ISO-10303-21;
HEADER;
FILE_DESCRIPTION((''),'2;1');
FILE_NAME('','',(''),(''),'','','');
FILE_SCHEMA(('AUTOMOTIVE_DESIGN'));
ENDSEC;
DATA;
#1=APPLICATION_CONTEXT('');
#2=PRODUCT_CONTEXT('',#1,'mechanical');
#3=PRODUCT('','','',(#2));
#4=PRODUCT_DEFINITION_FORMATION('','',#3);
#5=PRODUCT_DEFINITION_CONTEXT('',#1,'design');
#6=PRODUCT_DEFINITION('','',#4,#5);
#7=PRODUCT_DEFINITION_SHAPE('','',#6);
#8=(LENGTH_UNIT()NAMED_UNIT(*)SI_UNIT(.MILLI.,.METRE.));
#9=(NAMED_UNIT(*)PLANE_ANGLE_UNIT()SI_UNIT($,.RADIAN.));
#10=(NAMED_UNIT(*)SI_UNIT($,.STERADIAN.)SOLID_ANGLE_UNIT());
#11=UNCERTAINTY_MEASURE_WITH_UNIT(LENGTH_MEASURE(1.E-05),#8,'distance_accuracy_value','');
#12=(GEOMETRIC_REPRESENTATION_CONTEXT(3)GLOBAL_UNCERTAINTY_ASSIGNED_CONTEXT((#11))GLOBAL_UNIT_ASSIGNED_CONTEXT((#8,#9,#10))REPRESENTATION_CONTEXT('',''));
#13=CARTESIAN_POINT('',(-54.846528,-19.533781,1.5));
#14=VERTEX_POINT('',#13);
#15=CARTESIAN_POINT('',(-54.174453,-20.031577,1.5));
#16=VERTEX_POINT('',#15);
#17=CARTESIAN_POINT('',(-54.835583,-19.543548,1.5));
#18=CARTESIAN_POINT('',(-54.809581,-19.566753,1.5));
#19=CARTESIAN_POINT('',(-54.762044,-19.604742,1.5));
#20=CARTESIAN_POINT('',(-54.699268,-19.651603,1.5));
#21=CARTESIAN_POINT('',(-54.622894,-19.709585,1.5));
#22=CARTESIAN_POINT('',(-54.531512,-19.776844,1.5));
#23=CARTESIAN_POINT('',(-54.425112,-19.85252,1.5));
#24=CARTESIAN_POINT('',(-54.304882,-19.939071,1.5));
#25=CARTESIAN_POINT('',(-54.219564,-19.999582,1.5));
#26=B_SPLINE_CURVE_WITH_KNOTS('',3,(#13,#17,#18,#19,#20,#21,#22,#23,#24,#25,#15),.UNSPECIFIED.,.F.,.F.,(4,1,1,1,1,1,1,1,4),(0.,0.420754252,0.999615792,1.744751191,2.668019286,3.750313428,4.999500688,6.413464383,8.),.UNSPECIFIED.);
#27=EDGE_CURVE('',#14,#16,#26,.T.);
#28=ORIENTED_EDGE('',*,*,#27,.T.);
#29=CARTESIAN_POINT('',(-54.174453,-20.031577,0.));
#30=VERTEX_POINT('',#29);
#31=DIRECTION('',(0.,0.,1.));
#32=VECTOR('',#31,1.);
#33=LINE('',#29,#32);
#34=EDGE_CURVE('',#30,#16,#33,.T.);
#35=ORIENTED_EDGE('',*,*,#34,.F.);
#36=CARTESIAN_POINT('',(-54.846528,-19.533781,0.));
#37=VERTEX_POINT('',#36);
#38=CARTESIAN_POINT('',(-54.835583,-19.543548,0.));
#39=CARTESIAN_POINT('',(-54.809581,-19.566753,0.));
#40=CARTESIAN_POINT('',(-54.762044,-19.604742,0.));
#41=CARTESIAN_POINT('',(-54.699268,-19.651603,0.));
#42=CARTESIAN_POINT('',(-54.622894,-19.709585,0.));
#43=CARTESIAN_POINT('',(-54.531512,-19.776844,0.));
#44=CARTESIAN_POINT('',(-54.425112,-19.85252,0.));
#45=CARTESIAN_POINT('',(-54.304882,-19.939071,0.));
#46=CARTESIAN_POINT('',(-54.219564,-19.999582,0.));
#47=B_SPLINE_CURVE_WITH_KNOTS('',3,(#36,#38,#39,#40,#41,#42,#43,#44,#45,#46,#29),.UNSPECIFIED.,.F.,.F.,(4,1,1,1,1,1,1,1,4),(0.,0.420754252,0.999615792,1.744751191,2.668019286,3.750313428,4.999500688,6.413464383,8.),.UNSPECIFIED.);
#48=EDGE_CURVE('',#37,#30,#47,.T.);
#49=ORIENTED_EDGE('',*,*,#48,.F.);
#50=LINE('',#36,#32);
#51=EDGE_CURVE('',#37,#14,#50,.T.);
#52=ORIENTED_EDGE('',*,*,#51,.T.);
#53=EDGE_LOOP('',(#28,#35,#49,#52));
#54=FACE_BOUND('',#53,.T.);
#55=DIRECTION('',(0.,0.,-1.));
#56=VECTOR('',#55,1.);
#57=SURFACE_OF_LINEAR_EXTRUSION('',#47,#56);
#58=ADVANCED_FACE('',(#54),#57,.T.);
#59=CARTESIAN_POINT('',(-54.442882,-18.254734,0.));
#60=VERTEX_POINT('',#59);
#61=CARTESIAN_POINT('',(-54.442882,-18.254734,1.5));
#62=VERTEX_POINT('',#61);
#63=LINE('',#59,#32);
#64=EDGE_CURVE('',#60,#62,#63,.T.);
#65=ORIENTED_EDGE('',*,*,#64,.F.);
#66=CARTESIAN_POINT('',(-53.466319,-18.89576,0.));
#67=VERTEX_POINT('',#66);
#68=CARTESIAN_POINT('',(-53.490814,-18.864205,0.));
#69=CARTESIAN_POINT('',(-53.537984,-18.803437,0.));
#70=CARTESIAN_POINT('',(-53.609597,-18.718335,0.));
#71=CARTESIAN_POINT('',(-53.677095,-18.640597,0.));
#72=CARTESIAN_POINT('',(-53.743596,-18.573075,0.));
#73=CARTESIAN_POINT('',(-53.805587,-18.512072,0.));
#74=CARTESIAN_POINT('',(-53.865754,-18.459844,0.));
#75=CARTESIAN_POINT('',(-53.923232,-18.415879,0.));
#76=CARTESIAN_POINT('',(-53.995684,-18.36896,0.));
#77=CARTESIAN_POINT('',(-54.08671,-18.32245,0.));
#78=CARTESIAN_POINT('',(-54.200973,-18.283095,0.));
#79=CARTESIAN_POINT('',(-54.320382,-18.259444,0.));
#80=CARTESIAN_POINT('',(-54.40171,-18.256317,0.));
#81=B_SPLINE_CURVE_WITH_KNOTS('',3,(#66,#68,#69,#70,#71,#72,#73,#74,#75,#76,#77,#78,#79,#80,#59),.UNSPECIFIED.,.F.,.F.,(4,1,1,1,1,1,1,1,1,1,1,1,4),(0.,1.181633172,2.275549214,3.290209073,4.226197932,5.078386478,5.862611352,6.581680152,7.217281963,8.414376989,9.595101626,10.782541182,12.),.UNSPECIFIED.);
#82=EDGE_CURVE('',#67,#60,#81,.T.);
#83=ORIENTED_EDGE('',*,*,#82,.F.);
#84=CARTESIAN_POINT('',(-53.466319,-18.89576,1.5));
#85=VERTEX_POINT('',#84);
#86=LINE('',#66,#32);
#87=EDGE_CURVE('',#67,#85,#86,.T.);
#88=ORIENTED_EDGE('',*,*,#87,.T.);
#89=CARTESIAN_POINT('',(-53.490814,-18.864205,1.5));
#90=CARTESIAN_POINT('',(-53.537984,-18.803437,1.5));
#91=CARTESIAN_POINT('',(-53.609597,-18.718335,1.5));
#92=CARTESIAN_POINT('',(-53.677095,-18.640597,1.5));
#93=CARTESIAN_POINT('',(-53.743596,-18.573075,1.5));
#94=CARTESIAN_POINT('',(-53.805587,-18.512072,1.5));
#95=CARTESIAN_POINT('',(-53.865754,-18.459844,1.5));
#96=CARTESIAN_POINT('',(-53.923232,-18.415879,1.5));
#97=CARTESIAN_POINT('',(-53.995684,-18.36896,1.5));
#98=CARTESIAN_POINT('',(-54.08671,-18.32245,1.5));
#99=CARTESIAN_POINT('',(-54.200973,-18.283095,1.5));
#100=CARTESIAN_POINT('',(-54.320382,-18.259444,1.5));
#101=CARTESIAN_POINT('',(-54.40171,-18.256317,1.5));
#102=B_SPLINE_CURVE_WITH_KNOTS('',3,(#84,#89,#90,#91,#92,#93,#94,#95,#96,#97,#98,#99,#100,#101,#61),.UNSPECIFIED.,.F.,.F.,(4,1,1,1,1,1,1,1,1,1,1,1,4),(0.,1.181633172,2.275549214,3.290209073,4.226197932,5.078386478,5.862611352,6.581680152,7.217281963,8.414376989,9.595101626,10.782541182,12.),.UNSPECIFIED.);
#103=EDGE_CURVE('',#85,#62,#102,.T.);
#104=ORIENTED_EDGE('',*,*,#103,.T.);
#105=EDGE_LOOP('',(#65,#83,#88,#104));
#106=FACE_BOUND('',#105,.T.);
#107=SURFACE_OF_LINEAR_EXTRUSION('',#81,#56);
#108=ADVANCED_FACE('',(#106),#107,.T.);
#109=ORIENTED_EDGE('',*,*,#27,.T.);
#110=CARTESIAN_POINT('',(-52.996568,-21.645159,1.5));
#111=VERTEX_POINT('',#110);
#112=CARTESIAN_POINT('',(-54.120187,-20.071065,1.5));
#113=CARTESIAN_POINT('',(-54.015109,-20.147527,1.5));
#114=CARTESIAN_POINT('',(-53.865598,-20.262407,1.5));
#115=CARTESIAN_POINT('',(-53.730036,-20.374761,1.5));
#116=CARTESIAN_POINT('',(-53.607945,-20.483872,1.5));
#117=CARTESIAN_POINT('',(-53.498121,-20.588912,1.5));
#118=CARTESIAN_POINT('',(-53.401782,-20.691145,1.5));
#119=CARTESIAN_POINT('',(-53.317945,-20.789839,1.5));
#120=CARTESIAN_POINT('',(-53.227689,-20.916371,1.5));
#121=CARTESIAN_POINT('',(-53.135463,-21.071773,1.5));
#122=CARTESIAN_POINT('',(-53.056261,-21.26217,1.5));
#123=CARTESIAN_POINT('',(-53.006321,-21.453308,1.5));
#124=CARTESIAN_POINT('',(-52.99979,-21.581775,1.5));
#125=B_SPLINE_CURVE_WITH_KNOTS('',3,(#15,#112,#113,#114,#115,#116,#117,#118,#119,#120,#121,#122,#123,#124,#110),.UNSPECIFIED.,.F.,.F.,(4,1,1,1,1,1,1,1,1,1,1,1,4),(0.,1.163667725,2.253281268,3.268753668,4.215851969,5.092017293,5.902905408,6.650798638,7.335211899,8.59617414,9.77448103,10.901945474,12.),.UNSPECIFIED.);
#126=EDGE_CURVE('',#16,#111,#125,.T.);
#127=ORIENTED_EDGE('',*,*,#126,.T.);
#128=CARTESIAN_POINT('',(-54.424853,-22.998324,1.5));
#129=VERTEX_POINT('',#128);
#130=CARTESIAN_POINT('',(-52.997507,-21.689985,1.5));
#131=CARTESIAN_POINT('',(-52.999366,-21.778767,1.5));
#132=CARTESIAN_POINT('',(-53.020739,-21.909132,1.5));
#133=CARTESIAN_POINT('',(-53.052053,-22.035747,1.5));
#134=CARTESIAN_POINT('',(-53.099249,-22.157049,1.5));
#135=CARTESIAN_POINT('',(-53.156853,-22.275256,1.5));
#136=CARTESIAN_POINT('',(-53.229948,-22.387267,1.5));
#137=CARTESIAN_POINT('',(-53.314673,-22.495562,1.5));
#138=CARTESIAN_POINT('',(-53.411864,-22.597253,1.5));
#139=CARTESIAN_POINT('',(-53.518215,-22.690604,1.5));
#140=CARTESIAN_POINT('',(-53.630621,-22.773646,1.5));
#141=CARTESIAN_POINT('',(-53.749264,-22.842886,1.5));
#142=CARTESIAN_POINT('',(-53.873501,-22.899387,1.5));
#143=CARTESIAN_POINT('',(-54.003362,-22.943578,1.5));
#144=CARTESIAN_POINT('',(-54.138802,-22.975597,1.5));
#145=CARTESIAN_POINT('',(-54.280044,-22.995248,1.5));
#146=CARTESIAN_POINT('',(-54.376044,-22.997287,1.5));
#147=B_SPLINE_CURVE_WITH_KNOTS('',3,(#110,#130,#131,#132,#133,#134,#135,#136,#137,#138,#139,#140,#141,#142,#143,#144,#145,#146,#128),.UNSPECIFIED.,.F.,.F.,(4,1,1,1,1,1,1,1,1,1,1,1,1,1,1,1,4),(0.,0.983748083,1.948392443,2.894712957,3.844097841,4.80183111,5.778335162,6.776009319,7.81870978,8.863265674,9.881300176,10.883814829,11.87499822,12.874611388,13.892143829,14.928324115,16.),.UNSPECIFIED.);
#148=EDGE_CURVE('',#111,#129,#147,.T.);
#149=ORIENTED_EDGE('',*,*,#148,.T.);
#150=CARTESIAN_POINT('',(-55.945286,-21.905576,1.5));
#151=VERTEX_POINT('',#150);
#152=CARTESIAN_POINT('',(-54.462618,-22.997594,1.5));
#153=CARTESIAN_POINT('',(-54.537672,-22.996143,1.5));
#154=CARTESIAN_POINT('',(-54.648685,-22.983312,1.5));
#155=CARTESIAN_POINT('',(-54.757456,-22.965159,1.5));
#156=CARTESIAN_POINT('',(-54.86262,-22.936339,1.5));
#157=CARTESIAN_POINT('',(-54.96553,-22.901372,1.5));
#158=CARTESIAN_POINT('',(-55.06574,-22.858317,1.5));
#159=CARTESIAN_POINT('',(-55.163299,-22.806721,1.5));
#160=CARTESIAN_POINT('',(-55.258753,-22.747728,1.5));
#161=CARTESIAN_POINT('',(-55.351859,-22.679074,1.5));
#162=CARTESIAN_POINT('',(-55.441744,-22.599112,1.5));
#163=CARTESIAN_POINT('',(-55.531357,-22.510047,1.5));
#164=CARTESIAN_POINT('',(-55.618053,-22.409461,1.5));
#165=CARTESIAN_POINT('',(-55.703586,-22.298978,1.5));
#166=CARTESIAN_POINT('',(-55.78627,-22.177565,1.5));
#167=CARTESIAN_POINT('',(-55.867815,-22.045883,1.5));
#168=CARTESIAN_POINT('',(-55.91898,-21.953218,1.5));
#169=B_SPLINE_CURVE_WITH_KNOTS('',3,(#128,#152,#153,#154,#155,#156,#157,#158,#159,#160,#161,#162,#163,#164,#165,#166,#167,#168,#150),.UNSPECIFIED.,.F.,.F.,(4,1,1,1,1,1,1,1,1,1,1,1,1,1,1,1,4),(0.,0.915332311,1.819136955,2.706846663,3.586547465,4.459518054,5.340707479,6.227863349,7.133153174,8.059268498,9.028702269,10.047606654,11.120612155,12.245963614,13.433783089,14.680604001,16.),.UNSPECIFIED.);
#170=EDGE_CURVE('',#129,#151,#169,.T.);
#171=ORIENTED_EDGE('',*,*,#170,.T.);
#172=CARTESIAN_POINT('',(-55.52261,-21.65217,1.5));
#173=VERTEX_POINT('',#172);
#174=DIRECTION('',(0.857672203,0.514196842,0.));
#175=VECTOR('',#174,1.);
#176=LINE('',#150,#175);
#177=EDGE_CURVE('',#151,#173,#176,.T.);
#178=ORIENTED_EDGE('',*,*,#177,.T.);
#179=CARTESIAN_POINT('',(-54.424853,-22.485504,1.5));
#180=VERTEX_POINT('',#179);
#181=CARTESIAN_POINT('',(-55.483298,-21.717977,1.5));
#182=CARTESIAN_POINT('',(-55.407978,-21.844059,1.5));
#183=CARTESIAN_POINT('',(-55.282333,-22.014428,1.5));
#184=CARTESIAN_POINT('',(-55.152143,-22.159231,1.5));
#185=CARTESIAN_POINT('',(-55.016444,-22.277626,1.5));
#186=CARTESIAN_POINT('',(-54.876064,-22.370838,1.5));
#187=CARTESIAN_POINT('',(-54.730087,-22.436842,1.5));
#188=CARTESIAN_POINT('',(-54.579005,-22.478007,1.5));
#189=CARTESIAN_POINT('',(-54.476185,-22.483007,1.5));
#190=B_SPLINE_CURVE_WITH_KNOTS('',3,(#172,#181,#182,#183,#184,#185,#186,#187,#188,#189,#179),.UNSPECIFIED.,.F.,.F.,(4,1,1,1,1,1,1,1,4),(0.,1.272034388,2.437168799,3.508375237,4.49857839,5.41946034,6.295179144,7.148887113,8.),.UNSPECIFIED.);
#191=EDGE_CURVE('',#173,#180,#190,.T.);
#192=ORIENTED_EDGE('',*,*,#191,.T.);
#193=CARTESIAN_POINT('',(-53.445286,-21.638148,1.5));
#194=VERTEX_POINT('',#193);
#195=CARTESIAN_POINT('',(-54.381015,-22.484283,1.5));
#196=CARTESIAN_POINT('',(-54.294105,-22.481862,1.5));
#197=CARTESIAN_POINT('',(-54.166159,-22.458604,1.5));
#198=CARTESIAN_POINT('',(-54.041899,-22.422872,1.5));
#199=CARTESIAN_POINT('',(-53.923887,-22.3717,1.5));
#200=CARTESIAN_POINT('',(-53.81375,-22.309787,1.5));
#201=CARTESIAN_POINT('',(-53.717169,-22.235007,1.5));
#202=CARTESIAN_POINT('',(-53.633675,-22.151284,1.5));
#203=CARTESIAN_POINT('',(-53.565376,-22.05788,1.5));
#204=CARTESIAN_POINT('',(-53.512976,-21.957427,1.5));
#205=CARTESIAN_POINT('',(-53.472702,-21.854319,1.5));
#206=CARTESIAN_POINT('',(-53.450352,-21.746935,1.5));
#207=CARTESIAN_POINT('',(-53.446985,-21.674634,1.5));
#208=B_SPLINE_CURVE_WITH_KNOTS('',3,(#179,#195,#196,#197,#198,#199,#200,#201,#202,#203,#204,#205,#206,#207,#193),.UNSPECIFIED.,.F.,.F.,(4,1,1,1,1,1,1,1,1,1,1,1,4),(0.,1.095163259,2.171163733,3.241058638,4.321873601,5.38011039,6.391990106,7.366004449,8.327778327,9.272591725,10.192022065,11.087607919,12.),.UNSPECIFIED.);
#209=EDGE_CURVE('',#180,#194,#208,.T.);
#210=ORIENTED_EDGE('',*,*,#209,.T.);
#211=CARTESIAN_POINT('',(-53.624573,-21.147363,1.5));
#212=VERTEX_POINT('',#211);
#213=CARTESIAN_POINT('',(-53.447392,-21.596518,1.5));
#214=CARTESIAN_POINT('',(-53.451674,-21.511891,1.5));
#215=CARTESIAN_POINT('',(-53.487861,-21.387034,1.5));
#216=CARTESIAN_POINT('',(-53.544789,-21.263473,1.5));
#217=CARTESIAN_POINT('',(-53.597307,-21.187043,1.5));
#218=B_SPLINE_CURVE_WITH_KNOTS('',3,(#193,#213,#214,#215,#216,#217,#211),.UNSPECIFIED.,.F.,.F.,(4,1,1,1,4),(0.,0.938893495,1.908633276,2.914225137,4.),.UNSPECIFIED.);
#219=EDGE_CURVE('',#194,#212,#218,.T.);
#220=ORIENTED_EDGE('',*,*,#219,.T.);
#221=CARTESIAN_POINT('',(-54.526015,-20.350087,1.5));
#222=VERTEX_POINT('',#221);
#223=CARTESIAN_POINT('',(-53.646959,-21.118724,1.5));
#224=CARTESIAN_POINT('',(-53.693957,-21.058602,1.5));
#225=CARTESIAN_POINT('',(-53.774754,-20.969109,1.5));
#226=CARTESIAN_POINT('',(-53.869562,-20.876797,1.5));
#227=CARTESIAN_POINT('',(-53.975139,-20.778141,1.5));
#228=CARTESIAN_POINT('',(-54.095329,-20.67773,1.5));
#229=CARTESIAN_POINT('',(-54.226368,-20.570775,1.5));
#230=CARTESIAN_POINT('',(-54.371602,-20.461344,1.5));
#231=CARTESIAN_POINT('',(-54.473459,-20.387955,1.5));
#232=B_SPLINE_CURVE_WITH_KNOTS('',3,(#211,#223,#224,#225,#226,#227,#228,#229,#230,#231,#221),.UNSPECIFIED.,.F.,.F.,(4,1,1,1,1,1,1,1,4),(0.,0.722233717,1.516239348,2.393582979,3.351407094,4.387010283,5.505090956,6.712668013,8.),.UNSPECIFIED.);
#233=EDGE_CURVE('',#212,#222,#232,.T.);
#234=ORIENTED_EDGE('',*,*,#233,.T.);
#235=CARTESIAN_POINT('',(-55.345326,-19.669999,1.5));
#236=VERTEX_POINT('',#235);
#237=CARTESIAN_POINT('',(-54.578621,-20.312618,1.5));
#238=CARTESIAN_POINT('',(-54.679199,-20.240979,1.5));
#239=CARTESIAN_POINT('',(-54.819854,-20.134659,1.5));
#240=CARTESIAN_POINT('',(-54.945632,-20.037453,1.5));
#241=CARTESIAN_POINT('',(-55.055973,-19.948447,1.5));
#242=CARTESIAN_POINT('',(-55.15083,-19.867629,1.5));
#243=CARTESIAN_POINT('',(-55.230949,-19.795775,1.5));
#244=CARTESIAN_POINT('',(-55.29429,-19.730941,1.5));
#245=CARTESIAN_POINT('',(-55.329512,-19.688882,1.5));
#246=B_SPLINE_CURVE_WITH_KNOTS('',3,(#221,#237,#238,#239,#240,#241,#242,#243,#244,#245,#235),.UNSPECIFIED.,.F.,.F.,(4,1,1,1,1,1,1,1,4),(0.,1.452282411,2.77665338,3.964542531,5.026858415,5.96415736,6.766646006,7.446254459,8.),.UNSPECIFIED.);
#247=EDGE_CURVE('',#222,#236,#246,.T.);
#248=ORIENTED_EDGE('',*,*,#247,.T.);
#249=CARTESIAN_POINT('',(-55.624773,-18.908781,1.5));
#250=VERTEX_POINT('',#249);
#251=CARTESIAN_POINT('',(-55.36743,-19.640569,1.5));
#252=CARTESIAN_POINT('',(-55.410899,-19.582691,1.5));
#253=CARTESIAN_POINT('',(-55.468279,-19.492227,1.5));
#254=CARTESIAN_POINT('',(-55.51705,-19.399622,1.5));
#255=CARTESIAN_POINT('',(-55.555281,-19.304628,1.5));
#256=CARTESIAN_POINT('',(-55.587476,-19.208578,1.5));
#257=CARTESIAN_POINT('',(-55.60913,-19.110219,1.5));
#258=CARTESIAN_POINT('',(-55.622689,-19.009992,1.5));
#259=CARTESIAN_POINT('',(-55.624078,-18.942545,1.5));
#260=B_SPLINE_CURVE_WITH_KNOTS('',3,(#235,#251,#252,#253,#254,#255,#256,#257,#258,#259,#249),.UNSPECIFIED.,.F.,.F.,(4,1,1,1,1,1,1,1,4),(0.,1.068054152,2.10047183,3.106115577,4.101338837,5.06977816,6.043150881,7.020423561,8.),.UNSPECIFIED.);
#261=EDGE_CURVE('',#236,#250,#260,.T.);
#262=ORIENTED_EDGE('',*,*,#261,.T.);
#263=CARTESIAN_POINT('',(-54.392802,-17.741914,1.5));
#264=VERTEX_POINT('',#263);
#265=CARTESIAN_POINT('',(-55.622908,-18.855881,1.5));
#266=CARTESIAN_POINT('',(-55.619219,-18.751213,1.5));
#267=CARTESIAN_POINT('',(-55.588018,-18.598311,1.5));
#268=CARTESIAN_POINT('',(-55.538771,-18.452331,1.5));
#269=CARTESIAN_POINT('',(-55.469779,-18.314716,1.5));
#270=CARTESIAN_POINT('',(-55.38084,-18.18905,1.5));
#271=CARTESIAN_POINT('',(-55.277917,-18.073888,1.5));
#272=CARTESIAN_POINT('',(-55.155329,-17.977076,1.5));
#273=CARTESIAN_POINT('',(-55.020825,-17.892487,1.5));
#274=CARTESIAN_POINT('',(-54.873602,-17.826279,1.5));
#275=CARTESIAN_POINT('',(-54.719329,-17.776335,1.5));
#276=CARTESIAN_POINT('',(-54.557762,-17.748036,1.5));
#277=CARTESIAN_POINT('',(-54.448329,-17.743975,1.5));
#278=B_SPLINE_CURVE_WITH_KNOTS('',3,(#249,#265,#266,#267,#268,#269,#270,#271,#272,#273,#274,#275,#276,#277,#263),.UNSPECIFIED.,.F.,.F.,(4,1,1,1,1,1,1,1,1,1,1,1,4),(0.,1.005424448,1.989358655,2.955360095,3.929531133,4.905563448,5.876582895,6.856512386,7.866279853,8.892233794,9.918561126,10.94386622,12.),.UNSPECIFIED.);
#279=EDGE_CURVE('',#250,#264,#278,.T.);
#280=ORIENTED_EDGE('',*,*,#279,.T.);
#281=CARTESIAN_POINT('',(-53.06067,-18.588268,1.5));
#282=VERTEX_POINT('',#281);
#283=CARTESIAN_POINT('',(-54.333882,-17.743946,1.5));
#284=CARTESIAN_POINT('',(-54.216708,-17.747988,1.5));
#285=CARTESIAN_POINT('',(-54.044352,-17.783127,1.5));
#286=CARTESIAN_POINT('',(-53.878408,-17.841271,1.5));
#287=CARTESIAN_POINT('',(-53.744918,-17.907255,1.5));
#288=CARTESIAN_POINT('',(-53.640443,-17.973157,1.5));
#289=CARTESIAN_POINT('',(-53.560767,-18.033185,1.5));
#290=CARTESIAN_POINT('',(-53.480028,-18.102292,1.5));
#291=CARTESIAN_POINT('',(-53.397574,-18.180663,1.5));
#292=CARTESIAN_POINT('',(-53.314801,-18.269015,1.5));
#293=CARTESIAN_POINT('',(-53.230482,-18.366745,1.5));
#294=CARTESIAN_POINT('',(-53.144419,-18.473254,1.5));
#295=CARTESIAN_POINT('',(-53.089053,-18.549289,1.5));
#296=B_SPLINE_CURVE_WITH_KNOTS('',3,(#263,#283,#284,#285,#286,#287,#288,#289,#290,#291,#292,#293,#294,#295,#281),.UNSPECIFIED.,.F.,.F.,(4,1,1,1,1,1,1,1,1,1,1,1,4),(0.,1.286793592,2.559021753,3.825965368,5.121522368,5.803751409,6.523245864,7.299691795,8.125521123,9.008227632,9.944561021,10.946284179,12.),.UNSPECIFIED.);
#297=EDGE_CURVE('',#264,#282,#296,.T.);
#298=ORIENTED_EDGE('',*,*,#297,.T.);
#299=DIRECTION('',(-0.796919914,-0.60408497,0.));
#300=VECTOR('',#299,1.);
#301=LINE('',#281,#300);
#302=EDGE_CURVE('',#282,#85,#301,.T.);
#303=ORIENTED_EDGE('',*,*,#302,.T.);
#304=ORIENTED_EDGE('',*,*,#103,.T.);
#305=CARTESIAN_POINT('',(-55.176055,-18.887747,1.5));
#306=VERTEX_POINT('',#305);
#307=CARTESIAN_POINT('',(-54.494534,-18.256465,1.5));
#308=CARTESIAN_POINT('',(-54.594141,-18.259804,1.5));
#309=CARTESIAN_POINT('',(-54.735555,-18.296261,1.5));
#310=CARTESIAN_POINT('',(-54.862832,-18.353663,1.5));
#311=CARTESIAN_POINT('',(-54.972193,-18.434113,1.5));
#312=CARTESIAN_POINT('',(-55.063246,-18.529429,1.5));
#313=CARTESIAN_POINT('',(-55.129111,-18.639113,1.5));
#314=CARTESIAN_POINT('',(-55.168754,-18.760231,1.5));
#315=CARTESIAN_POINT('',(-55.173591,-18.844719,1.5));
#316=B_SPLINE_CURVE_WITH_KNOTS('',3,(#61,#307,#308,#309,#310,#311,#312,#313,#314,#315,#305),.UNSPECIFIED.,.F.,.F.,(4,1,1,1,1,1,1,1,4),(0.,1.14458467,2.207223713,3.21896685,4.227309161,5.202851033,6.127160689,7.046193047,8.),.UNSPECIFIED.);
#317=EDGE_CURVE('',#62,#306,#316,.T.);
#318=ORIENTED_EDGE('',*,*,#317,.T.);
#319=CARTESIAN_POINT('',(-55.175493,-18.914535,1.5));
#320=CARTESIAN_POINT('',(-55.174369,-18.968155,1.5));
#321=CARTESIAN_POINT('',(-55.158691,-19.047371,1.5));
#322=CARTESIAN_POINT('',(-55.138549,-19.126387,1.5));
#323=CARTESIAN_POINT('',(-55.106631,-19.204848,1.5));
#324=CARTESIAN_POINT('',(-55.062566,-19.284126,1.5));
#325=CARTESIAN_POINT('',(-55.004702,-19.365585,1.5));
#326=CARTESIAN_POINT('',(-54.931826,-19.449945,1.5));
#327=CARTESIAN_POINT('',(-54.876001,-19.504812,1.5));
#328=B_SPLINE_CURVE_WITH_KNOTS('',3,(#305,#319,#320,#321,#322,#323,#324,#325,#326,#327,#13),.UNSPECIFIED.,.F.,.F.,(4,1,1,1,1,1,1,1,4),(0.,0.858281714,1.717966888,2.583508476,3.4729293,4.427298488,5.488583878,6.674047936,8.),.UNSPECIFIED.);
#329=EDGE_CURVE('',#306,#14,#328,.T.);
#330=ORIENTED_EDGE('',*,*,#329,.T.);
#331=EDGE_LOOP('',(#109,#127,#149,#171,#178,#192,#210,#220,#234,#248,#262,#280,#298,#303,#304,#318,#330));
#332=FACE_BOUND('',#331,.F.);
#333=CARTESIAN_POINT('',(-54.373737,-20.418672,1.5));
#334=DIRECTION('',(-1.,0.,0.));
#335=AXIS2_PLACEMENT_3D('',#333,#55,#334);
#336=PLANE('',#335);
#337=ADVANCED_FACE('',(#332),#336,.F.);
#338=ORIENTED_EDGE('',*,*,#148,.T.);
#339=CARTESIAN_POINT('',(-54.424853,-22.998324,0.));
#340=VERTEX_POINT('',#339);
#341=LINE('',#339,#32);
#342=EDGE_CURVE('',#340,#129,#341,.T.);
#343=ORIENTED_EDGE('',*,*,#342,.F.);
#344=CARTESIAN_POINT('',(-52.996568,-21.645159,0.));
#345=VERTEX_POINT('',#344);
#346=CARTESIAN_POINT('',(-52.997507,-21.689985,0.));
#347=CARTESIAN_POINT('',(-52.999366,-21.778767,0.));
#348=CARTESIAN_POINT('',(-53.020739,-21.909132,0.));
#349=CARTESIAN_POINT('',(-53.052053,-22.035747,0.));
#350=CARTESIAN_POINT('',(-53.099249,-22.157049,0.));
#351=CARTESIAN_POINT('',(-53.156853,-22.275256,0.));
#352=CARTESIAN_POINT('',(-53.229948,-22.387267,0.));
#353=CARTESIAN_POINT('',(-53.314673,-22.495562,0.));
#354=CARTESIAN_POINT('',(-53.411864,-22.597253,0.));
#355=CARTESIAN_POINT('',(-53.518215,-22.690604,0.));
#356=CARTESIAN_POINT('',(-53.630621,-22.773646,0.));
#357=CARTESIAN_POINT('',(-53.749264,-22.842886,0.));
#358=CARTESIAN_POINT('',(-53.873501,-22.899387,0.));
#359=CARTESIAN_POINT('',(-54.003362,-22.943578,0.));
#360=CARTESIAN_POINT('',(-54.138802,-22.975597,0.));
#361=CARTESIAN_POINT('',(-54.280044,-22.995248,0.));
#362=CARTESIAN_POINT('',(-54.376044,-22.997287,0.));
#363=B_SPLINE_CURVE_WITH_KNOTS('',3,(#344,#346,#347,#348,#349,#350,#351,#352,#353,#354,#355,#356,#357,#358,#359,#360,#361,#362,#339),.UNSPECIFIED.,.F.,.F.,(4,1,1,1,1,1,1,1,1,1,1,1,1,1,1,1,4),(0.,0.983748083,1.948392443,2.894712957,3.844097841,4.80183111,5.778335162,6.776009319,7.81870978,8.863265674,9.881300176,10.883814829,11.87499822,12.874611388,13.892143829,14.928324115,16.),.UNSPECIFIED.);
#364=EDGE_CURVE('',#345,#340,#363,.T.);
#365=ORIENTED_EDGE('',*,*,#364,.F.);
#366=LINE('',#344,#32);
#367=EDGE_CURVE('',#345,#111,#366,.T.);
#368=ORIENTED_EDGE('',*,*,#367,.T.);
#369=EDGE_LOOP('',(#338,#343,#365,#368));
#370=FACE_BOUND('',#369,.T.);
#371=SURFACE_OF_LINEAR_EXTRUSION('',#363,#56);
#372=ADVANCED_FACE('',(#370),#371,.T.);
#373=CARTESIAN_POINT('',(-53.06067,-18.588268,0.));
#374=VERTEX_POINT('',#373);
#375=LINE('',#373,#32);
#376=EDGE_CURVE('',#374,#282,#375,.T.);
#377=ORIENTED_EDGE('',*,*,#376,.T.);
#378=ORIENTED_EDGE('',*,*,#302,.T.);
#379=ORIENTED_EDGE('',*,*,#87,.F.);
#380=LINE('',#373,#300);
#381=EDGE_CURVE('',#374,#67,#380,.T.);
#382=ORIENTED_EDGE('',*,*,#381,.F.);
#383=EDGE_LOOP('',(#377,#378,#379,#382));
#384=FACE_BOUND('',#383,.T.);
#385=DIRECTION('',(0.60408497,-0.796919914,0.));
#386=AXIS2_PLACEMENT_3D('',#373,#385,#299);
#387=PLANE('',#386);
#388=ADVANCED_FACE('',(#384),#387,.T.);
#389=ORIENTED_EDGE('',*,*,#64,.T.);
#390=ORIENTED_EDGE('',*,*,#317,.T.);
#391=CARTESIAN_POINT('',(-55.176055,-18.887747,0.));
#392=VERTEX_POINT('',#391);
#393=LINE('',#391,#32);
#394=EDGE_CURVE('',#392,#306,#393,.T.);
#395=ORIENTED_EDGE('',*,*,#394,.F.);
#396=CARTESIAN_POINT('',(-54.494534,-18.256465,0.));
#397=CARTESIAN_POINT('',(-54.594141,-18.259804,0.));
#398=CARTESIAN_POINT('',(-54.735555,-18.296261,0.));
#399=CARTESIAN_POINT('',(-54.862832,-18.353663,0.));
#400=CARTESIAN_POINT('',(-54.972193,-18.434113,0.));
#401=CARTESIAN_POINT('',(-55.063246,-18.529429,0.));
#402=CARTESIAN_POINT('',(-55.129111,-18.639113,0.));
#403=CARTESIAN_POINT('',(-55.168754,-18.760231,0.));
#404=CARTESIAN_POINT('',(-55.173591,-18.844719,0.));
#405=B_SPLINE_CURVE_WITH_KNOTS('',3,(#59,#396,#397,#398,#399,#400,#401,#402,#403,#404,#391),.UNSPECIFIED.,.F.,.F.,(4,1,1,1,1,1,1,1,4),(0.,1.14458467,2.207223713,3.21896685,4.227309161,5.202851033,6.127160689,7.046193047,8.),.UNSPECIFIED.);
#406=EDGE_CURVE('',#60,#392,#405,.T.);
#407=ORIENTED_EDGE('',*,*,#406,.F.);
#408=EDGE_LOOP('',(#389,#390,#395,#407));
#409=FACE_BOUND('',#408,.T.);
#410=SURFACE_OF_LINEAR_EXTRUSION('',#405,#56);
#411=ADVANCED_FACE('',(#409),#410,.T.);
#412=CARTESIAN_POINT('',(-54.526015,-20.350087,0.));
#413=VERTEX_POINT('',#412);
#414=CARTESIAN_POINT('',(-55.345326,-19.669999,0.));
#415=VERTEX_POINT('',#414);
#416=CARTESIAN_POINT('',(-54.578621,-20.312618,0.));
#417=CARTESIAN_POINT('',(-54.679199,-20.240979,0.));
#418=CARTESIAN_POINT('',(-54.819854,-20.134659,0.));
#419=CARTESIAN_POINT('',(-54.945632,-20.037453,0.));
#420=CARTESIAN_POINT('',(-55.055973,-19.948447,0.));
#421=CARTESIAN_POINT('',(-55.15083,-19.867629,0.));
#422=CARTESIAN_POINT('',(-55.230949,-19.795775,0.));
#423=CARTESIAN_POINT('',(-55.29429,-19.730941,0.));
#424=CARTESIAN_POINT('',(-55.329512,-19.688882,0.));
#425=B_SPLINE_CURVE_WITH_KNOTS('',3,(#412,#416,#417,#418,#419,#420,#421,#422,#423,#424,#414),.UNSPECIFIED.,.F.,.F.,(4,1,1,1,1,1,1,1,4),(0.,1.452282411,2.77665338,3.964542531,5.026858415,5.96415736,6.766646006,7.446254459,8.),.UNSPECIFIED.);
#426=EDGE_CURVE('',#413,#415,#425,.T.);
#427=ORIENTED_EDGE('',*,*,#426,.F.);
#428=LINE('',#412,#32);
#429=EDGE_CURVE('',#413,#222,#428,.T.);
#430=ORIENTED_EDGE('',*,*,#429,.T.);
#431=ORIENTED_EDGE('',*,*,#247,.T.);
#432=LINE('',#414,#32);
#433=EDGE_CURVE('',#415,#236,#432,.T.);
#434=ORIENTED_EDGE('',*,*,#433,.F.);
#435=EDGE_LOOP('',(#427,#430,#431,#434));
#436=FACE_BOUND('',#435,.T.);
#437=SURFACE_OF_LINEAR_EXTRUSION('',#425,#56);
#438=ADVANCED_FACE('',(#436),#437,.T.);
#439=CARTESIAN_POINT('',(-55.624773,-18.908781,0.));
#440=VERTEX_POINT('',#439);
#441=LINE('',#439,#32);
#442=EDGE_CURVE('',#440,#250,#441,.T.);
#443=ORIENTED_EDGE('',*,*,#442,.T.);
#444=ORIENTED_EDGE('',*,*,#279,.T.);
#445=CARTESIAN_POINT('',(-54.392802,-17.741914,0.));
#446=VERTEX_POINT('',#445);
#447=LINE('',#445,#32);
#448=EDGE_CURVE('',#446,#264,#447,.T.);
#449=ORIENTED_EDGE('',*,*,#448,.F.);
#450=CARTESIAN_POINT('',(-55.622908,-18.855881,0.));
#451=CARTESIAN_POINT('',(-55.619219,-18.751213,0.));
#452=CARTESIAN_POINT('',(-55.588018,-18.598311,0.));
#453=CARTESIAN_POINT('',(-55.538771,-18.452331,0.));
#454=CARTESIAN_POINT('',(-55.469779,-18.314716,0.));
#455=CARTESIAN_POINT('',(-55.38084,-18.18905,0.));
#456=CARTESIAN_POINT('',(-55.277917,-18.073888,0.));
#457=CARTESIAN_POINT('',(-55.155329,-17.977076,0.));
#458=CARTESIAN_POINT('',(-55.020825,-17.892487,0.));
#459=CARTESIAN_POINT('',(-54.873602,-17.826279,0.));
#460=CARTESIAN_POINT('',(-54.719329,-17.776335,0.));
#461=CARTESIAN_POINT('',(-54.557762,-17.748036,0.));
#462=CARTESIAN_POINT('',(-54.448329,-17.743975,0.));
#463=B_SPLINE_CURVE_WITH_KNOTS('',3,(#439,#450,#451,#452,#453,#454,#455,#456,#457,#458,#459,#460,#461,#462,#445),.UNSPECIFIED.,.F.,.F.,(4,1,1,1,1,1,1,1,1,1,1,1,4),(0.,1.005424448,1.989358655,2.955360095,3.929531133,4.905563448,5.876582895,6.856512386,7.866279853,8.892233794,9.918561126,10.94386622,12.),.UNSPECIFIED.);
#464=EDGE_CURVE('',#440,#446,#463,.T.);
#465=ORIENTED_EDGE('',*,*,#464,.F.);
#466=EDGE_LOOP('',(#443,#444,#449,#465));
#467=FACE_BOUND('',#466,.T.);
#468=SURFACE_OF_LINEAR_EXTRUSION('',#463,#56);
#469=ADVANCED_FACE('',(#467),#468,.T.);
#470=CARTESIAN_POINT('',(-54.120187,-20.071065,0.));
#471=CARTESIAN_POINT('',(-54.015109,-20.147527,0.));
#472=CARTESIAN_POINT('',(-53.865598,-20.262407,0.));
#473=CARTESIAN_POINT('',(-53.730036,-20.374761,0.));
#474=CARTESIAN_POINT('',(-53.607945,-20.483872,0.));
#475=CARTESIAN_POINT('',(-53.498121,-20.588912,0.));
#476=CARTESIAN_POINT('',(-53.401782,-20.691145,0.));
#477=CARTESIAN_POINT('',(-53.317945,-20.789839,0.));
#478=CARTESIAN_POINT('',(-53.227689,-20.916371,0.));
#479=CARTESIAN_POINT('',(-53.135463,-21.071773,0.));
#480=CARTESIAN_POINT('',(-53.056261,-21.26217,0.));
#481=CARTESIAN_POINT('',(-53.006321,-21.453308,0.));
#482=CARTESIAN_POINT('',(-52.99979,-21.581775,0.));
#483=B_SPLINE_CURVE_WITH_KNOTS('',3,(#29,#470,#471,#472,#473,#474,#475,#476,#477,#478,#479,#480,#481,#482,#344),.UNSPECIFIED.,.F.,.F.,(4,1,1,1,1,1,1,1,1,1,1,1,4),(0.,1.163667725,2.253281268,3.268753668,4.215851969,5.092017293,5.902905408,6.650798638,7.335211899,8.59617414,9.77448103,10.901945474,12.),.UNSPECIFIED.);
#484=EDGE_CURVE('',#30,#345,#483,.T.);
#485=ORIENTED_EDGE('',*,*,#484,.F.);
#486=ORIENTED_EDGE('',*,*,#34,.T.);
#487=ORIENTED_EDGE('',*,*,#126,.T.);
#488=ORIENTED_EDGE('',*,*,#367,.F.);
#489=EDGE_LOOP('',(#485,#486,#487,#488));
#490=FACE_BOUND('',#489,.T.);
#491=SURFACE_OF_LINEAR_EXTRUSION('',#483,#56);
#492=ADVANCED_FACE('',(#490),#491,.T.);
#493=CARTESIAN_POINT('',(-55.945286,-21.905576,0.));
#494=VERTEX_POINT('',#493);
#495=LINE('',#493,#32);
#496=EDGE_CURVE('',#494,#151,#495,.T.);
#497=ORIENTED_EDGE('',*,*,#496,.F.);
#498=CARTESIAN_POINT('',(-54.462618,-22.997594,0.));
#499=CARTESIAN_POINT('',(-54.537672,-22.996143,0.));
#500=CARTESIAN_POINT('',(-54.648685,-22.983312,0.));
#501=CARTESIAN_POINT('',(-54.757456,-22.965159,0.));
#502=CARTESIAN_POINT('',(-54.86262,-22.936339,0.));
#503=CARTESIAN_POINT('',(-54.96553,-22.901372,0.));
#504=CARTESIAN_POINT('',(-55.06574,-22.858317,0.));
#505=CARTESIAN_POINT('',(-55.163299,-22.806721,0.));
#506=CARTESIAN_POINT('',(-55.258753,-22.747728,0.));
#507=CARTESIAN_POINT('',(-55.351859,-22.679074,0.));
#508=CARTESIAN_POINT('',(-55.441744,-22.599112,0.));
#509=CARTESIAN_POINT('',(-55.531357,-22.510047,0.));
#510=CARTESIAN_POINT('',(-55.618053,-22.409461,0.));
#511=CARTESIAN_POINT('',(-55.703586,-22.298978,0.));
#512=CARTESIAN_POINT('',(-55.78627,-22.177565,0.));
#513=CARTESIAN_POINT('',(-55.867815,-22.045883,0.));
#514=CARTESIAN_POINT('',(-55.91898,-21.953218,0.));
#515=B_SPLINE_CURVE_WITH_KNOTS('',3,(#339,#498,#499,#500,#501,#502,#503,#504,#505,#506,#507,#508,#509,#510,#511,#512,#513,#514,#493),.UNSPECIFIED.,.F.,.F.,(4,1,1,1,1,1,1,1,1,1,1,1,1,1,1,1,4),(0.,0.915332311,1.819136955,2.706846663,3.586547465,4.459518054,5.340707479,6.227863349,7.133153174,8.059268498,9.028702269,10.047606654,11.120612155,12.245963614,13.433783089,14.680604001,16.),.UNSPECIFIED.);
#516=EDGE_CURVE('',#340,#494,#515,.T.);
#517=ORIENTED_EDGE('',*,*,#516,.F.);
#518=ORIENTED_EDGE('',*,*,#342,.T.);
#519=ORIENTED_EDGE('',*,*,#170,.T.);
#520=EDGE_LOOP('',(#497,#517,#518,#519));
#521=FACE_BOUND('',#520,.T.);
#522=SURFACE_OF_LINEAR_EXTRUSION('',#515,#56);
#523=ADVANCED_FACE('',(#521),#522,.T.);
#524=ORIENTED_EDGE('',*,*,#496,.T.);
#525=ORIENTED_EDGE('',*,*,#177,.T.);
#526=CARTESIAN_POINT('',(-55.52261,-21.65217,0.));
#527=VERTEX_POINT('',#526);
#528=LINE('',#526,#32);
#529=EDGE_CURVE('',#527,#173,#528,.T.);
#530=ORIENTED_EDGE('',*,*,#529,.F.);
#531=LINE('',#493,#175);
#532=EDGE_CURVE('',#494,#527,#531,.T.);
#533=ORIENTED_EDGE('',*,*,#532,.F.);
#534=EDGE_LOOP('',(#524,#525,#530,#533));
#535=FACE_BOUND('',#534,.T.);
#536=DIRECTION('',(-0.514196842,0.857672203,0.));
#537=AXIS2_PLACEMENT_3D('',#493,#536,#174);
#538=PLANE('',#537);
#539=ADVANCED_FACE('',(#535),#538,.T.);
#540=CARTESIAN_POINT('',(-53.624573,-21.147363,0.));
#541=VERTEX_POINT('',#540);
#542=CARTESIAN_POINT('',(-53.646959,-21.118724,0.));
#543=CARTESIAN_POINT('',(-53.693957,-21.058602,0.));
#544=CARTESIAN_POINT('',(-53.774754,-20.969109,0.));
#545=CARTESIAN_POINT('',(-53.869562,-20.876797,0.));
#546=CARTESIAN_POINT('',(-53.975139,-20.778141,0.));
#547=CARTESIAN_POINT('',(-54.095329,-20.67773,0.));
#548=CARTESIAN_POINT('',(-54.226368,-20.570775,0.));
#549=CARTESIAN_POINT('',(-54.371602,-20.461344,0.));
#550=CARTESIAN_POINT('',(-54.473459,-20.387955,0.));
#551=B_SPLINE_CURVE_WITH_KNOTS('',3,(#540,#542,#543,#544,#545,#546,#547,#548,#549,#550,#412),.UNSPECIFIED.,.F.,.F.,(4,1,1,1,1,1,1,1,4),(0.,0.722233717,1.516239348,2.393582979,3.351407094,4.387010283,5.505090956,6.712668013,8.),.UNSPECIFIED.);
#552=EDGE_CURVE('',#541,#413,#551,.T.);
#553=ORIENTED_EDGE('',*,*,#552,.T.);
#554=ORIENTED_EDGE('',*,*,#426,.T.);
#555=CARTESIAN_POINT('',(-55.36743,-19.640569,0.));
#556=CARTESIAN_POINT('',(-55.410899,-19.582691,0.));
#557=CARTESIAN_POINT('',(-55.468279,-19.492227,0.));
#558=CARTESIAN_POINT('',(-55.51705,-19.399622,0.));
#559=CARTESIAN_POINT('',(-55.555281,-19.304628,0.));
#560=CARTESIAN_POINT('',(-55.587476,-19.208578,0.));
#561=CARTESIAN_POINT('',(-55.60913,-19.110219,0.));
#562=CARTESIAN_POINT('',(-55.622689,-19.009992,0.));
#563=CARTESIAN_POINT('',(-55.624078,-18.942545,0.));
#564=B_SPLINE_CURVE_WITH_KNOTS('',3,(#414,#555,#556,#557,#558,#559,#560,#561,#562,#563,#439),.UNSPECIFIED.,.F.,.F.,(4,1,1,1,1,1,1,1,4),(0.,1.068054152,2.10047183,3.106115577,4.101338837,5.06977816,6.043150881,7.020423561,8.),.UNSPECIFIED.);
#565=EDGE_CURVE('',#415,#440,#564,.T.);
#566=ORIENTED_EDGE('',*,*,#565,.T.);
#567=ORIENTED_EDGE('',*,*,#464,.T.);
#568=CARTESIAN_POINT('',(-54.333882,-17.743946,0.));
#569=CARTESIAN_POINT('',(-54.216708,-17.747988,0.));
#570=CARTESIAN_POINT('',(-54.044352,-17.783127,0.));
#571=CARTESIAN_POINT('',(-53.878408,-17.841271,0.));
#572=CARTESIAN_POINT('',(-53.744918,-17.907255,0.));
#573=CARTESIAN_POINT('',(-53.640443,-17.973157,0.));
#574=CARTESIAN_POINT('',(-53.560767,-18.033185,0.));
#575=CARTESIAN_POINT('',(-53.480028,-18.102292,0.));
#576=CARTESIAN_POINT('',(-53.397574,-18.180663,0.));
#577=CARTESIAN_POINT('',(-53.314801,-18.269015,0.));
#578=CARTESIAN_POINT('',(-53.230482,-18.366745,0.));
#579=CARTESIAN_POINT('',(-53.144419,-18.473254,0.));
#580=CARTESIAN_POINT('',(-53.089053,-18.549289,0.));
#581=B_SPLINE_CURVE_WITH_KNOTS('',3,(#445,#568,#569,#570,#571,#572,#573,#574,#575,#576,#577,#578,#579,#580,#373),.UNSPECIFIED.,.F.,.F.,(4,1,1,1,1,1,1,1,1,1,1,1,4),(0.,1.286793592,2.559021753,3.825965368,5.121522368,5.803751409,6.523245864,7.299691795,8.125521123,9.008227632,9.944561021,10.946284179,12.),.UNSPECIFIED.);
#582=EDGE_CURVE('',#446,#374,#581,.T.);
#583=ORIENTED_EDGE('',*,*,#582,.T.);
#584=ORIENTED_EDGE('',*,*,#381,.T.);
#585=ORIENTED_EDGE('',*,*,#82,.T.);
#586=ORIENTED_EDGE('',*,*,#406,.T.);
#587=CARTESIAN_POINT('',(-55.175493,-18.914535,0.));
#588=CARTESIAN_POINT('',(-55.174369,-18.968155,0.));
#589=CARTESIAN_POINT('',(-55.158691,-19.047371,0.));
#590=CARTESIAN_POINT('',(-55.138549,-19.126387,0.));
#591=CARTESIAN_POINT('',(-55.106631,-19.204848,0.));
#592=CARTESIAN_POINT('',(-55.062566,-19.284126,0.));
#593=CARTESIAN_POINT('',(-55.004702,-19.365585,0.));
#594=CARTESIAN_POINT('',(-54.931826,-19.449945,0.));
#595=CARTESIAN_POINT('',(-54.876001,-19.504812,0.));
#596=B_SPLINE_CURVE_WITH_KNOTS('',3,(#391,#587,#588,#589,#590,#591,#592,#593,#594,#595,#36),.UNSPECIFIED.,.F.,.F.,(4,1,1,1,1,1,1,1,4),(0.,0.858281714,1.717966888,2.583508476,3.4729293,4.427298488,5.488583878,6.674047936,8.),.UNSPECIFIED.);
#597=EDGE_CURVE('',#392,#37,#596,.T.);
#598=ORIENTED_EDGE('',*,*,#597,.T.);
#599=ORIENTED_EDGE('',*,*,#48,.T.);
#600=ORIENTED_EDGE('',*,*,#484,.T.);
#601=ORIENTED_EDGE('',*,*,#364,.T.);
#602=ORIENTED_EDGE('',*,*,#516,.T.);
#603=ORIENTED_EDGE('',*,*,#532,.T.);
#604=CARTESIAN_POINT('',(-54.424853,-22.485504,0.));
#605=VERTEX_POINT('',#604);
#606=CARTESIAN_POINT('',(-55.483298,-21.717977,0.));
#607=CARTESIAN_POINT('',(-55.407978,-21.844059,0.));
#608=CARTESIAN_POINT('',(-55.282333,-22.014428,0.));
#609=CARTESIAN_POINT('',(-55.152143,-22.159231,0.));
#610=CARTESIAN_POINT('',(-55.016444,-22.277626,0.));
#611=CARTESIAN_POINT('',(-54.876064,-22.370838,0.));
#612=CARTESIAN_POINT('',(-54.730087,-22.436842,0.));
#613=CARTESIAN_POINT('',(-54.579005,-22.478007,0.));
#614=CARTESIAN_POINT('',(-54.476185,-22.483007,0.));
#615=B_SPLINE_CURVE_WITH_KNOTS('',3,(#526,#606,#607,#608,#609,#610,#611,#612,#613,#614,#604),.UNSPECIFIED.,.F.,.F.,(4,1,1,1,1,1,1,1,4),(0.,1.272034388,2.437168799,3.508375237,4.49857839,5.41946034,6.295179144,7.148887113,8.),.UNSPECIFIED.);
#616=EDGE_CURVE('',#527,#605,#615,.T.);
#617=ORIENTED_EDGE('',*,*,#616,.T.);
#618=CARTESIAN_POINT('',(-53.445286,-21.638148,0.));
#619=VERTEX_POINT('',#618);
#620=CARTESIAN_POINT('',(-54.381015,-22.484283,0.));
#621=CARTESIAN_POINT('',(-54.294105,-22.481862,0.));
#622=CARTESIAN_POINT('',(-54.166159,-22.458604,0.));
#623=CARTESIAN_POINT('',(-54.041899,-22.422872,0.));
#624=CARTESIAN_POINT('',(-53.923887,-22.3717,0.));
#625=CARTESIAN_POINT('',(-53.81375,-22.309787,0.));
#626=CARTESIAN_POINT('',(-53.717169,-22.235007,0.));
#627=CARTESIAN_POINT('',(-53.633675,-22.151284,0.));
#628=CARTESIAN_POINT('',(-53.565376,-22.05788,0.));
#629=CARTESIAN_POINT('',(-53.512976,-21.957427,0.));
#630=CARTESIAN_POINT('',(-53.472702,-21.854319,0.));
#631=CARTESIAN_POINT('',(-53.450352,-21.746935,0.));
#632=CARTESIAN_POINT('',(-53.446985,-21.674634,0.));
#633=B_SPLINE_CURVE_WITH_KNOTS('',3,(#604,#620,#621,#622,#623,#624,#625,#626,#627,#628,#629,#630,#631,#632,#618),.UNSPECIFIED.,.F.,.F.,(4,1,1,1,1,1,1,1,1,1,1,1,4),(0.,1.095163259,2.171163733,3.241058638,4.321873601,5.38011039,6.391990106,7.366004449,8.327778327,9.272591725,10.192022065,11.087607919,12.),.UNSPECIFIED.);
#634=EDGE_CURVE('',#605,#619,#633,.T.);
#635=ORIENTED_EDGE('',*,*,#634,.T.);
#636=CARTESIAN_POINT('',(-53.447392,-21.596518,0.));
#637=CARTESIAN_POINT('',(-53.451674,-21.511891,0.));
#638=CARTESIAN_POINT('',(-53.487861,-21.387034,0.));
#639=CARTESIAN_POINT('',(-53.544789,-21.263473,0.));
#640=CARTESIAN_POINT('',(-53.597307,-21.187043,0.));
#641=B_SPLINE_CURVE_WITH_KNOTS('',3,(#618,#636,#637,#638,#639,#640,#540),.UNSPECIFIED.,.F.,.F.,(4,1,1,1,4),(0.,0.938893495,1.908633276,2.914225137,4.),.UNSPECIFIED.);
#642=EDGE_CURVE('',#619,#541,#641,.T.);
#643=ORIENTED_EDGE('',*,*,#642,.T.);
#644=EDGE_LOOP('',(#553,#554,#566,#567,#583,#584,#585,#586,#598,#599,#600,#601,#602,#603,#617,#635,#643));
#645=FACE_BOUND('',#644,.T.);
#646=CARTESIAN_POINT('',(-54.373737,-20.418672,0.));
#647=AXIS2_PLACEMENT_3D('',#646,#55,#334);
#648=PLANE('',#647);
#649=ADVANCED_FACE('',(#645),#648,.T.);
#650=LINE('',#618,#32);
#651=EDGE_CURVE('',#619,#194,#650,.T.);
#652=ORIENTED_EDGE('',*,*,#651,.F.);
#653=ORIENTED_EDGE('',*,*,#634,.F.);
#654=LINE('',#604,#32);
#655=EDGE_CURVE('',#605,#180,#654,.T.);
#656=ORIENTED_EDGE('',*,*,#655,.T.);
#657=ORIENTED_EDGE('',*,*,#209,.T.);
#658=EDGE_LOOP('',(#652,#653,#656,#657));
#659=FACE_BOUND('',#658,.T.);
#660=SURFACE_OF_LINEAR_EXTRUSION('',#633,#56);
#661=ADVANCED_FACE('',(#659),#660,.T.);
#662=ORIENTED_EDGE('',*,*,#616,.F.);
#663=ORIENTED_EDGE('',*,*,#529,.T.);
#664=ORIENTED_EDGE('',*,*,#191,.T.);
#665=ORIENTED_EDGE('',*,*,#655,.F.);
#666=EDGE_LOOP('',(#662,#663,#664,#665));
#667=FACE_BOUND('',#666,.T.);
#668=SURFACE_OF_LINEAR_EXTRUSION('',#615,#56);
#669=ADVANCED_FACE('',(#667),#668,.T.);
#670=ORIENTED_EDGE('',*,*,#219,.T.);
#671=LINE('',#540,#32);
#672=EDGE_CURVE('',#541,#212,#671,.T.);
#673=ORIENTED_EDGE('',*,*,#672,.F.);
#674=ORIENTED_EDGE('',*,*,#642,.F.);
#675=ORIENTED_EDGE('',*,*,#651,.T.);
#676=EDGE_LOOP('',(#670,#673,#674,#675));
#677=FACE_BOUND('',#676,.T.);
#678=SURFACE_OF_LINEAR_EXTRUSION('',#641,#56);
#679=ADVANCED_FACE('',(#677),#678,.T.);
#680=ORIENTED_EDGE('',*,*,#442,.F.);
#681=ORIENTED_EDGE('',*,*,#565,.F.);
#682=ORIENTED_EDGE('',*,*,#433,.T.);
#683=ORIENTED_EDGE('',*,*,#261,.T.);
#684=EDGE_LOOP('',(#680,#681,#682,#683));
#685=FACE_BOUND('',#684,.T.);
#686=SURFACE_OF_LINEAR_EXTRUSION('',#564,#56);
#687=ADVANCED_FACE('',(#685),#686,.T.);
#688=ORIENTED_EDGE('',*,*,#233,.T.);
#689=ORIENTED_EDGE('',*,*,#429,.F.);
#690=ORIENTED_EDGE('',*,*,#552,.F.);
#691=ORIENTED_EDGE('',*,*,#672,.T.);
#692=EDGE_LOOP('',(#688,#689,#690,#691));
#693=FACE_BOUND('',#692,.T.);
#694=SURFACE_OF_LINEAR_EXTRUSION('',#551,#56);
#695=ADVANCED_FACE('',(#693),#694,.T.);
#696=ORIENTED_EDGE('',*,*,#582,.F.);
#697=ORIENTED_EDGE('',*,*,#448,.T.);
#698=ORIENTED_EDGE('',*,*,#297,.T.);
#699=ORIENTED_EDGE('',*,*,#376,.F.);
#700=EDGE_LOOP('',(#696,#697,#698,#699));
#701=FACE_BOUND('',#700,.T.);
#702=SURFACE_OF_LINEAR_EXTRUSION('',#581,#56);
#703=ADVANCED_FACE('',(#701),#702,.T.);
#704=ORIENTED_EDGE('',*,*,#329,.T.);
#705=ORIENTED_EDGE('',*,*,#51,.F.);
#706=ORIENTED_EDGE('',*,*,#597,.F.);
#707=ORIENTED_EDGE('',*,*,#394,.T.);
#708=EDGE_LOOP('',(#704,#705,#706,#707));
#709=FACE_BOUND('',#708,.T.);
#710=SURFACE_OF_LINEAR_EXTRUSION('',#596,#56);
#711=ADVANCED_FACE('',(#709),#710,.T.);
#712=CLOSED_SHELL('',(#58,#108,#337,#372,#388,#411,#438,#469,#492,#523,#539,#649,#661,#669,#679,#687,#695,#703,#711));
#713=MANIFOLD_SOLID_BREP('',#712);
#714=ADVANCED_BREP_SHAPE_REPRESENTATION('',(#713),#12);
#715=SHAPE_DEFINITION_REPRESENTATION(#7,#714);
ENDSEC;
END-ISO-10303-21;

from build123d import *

# Parameters (mm, degrees)
BOSS_EXTRU_1_DEPTH = 1.5


with BuildPart() as part:
    # Esquisse1 → Boss.-Extru.1 (new body)
    with BuildSketch(Plane.XY):
        with BuildLine():
            Line((-55.945285839, -21.905575807), (-55.522609557, -21.652170358))
            add(Edge.make_bspline(
                [(-55.522609557, -21.652170358), (-55.483297789, -21.717976622), (-55.40797796, -21.844058885), (-55.282333161, -22.014427514), (-55.152143288, -22.159230595), (-55.01644424, -22.277625749), (-54.876064314, -22.370838444), (-54.730087094, -22.436841633), (-54.579004508, -22.478007312), (-54.476184763, -22.483007435), (-54.424853146, -22.485503692)],
                knots=[0, 0, 0, 0, 1.272034388, 2.437168799, 3.508375237, 4.49857839, 5.41946034, 6.295179144, 7.148887113, 8, 8, 8, 8], degree=3))
            add(Edge.make_bspline(
                [(-54.424853146, -22.485503692), (-54.381014774, -22.484282731), (-54.294105098, -22.481862173), (-54.166159037, -22.458603885), (-54.04189932, -22.422872272), (-53.92388698, -22.371699513), (-53.813750388, -22.30978739), (-53.717169394, -22.235007137), (-53.633674947, -22.151283986), (-53.565376212, -22.057880193), (-53.512976161, -21.957427124), (-53.472701778, -21.854318622), (-53.450351673, -21.746934953), (-53.446984882, -21.674634292), (-53.445285839, -21.638147922)],
                knots=[0, 0, 0, 0, 1.095163259, 2.171163733, 3.241058638, 4.321873601, 5.38011039, 6.391990106, 7.366004449, 8.327778327, 9.272591725, 10.192022065, 11.087607919, 12, 12, 12, 12], degree=3))
            add(Edge.make_bspline(
                [(-53.445285839, -21.638147922), (-53.447391997, -21.596518137), (-53.451673509, -21.511890867), (-53.487861337, -21.38703422), (-53.544788833, -21.263473405), (-53.597306895, -21.187043026), (-53.624572698, -21.147362666)],
                knots=[0, 0, 0, 0, 0.938893495, 1.908633276, 2.914225137, 4, 4, 4, 4], degree=3))
            add(Edge.make_bspline(
                [(-53.624572698, -21.147362666), (-53.646959289, -21.118724347), (-53.693957138, -21.058601777), (-53.774753585, -20.969108584), (-53.86956232, -20.876796557), (-53.975138827, -20.778140761), (-54.095328954, -20.677729623), (-54.22636826, -20.57077494), (-54.371602344, -20.461344116), (-54.473458768, -20.387954736), (-54.526015005, -20.350087025)],
                knots=[0, 0, 0, 0, 0.722233717, 1.516239348, 2.393582979, 3.351407094, 4.387010283, 5.505090956, 6.712668013, 8, 8, 8, 8], degree=3))
            add(Edge.make_bspline(
                [(-54.526015005, -20.350087025), (-54.578620714, -20.312617614), (-54.679198824, -20.240978954), (-54.819853941, -20.134658548), (-54.945631746, -20.03745302), (-55.055973198, -19.948447288), (-55.150829765, -19.867629282), (-55.230948923, -19.795775083), (-55.294289719, -19.730941425), (-55.329511977, -19.688882365), (-55.345325903, -19.669998884)],
                knots=[0, 0, 0, 0, 1.452282411, 2.77665338, 3.964542531, 5.026858415, 5.96415736, 6.766646006, 7.446254459, 8, 8, 8, 8], degree=3))
            add(Edge.make_bspline(
                [(-55.345325903, -19.669998884), (-55.367429539, -19.640568831), (-55.410899306, -19.582690683), (-55.468279313, -19.492226601), (-55.517049546, -19.399621936), (-55.555281449, -19.304627843), (-55.587476047, -19.208577945), (-55.609130234, -19.110219023), (-55.622689373, -19.009992425), (-55.624077925, -18.942544567), (-55.624773018, -18.908780935)],
                knots=[0, 0, 0, 0, 1.068054152, 2.10047183, 3.106115577, 4.101338837, 5.06977816, 6.043150881, 7.020423561, 8, 8, 8, 8], degree=3))
            add(Edge.make_bspline(
                [(-55.624773018, -18.908780935), (-55.622908434, -18.855881257), (-55.61921912, -18.751212595), (-55.588018381, -18.598311408), (-55.53877139, -18.452330812), (-55.469778693, -18.31471605), (-55.380839617, -18.189050363), (-55.277916797, -18.073888239), (-55.155328959, -17.977075978), (-55.020825212, -17.892487324), (-54.873601823, -17.826278859), (-54.719329104, -17.776334602), (-54.557761858, -17.748035662), (-54.448328809, -17.743974569), (-54.392801864, -17.741913948)],
                knots=[0, 0, 0, 0, 1.005424448, 1.989358655, 2.955360095, 3.929531133, 4.905563448, 5.876582895, 6.856512386, 7.866279853, 8.892233794, 9.918561126, 10.94386622, 12, 12, 12, 12], degree=3))
            add(Edge.make_bspline(
                [(-54.392801864, -17.741913948), (-54.333881721, -17.743946165), (-54.216708361, -17.747987595), (-54.044352339, -17.783126925), (-53.878408459, -17.841270742), (-53.74491808, -17.907254539), (-53.640442707, -17.973156562), (-53.560767374, -18.033184882), (-53.480028159, -18.10229218), (-53.397573795, -18.180662532), (-53.314801424, -18.269015033), (-53.230482207, -18.366744589), (-53.144418966, -18.473253954), (-53.089053451, -18.549288955), (-53.060670454, -18.588268115)],
                knots=[0, 0, 0, 0, 1.286793592, 2.559021753, 3.825965368, 5.121522368, 5.803751409, 6.523245864, 7.299691795, 8.125521123, 9.008227632, 9.944561021, 10.946284179, 12, 12, 12, 12], degree=3))
            Line((-53.060670454, -18.588268115), (-53.466319493, -18.895760102))
            add(Edge.make_bspline(
                [(-53.466319493, -18.895760102), (-53.490813682, -18.86420483), (-53.537983763, -18.803436754), (-53.609597316, -18.718334874), (-53.677095384, -18.640597046), (-53.743595956, -18.573075435), (-53.805586858, -18.512072387), (-53.865754061, -18.459844163), (-53.923231705, -18.415879027), (-53.995684435, -18.368959656), (-54.086709747, -18.322450365), (-54.20097337, -18.283094539), (-54.320382334, -18.259444451), (-54.401710379, -18.256317468), (-54.442881993, -18.254734461)],
                knots=[0, 0, 0, 0, 1.181633172, 2.275549214, 3.290209073, 4.226197932, 5.078386478, 5.862611352, 6.581680152, 7.217281963, 8.414376989, 9.595101626, 10.782541182, 12, 12, 12, 12], degree=3))
            add(Edge.make_bspline(
                [(-54.442881993, -18.254734461), (-54.494534167, -18.256465461), (-54.594140521, -18.259803531), (-54.735555144, -18.296260653), (-54.86283218, -18.353663311), (-54.972192987, -18.434113279), (-55.063245811, -18.529428983), (-55.129110752, -18.639113062), (-55.168753845, -18.76023078), (-55.173591387, -18.84471886), (-55.176055069, -18.887747281)],
                knots=[0, 0, 0, 0, 1.14458467, 2.207223713, 3.21896685, 4.227309161, 5.202851033, 6.127160689, 7.046193047, 8, 8, 8, 8], degree=3))
            add(Edge.make_bspline(
                [(-55.176055069, -18.887747281), (-55.17549346, -18.914535108), (-55.174369323, -18.968154564), (-55.15869104, -19.047370881), (-55.138549142, -19.12638708), (-55.106631096, -19.204847913), (-55.062566377, -19.284125569), (-55.00470184, -19.365585194), (-54.93182568, -19.449944778), (-54.876001377, -19.504812455), (-54.846527826, -19.533780935)],
                knots=[0, 0, 0, 0, 0.858281714, 1.717966888, 2.583508476, 3.4729293, 4.427298488, 5.488583878, 6.674047936, 8, 8, 8, 8], degree=3))
            add(Edge.make_bspline(
                [(-54.846527826, -19.533780935), (-54.835583008, -19.543548115), (-54.809580627, -19.566752698), (-54.76204359, -19.604741671), (-54.699268164, -19.651602774), (-54.622893591, -19.709584655), (-54.531511645, -19.776843886), (-54.425112279, -19.852520475), (-54.304881518, -19.939071131), (-54.219564495, -19.999581903), (-54.174452505, -20.03157741)],
                knots=[0, 0, 0, 0, 0.420754252, 0.999615792, 1.744751191, 2.668019286, 3.750313428, 4.999500688, 6.413464383, 8, 8, 8, 8], degree=3))
            add(Edge.make_bspline(
                [(-54.174452505, -20.03157741), (-54.120186915, -20.071065066), (-54.01510912, -20.14752744), (-53.865598292, -20.262406983), (-53.730035709, -20.374760938), (-53.607945418, -20.483871805), (-53.498121263, -20.588911938), (-53.401781662, -20.691145053), (-53.317944976, -20.789838728), (-53.227688949, -20.916370979), (-53.135463493, -21.071772528), (-53.056261339, -21.262170012), (-53.006320843, -21.453307612), (-52.999790107, -21.581774522), (-52.99656789, -21.64515914)],
                knots=[0, 0, 0, 0, 1.163667725, 2.253281268, 3.268753668, 4.215851969, 5.092017293, 5.902905408, 6.650798638, 7.335211899, 8.59617414, 9.77448103, 10.901945474, 12, 12, 12, 12], degree=3))
            add(Edge.make_bspline(
                [(-52.99656789, -21.64515914), (-52.997506659, -21.689985376), (-52.999365966, -21.778767353), (-53.0207387, -21.909131748), (-53.052052507, -22.035747276), (-53.099248556, -22.157048866), (-53.156853068, -22.275255669), (-53.229947707, -22.387266956), (-53.314672971, -22.495561811), (-53.411864064, -22.597252513), (-53.518215353, -22.690604221), (-53.630620631, -22.773645738), (-53.749263878, -22.8428862), (-53.873501473, -22.899387403), (-54.003361954, -22.943578142), (-54.138801646, -22.975596526), (-54.280043805, -22.995247542), (-54.376044493, -22.997287201), (-54.424853146, -22.998324204)],
                knots=[0, 0, 0, 0, 0.983748083, 1.948392443, 2.894712957, 3.844097841, 4.80183111, 5.778335162, 6.776009319, 7.81870978, 8.863265674, 9.881300176, 10.883814829, 11.87499822, 12.874611388, 13.892143829, 14.928324115, 16, 16, 16, 16], degree=3))
            add(Edge.make_bspline(
                [(-54.424853146, -22.998324204), (-54.462617922, -22.997593945), (-54.537671865, -22.996142623), (-54.648685411, -22.983312222), (-54.757456252, -22.965159217), (-54.862619512, -22.936339117), (-54.9655301, -22.901372007), (-55.065740435, -22.858317246), (-55.163299084, -22.806721244), (-55.258752774, -22.747728352), (-55.351858737, -22.679074431), (-55.441743691, -22.599112293), (-55.531356814, -22.510047286), (-55.618053094, -22.409460767), (-55.703586157, -22.298977792), (-55.7862696, -22.177564673), (-55.867814911, -22.045882739), (-55.918979865, -21.95321833), (-55.945285839, -21.905575807)],
                knots=[0, 0, 0, 0, 0.915332311, 1.819136955, 2.706846663, 3.586547465, 4.459518054, 5.340707479, 6.227863349, 7.133153174, 8.059268498, 9.028702269, 10.047606654, 11.120612155, 12.245963614, 13.433783089, 14.680604001, 16, 16, 16, 16], degree=3))
        make_face()
    extrude(amount=BOSS_EXTRU_1_DEPTH)


solid = part.part
